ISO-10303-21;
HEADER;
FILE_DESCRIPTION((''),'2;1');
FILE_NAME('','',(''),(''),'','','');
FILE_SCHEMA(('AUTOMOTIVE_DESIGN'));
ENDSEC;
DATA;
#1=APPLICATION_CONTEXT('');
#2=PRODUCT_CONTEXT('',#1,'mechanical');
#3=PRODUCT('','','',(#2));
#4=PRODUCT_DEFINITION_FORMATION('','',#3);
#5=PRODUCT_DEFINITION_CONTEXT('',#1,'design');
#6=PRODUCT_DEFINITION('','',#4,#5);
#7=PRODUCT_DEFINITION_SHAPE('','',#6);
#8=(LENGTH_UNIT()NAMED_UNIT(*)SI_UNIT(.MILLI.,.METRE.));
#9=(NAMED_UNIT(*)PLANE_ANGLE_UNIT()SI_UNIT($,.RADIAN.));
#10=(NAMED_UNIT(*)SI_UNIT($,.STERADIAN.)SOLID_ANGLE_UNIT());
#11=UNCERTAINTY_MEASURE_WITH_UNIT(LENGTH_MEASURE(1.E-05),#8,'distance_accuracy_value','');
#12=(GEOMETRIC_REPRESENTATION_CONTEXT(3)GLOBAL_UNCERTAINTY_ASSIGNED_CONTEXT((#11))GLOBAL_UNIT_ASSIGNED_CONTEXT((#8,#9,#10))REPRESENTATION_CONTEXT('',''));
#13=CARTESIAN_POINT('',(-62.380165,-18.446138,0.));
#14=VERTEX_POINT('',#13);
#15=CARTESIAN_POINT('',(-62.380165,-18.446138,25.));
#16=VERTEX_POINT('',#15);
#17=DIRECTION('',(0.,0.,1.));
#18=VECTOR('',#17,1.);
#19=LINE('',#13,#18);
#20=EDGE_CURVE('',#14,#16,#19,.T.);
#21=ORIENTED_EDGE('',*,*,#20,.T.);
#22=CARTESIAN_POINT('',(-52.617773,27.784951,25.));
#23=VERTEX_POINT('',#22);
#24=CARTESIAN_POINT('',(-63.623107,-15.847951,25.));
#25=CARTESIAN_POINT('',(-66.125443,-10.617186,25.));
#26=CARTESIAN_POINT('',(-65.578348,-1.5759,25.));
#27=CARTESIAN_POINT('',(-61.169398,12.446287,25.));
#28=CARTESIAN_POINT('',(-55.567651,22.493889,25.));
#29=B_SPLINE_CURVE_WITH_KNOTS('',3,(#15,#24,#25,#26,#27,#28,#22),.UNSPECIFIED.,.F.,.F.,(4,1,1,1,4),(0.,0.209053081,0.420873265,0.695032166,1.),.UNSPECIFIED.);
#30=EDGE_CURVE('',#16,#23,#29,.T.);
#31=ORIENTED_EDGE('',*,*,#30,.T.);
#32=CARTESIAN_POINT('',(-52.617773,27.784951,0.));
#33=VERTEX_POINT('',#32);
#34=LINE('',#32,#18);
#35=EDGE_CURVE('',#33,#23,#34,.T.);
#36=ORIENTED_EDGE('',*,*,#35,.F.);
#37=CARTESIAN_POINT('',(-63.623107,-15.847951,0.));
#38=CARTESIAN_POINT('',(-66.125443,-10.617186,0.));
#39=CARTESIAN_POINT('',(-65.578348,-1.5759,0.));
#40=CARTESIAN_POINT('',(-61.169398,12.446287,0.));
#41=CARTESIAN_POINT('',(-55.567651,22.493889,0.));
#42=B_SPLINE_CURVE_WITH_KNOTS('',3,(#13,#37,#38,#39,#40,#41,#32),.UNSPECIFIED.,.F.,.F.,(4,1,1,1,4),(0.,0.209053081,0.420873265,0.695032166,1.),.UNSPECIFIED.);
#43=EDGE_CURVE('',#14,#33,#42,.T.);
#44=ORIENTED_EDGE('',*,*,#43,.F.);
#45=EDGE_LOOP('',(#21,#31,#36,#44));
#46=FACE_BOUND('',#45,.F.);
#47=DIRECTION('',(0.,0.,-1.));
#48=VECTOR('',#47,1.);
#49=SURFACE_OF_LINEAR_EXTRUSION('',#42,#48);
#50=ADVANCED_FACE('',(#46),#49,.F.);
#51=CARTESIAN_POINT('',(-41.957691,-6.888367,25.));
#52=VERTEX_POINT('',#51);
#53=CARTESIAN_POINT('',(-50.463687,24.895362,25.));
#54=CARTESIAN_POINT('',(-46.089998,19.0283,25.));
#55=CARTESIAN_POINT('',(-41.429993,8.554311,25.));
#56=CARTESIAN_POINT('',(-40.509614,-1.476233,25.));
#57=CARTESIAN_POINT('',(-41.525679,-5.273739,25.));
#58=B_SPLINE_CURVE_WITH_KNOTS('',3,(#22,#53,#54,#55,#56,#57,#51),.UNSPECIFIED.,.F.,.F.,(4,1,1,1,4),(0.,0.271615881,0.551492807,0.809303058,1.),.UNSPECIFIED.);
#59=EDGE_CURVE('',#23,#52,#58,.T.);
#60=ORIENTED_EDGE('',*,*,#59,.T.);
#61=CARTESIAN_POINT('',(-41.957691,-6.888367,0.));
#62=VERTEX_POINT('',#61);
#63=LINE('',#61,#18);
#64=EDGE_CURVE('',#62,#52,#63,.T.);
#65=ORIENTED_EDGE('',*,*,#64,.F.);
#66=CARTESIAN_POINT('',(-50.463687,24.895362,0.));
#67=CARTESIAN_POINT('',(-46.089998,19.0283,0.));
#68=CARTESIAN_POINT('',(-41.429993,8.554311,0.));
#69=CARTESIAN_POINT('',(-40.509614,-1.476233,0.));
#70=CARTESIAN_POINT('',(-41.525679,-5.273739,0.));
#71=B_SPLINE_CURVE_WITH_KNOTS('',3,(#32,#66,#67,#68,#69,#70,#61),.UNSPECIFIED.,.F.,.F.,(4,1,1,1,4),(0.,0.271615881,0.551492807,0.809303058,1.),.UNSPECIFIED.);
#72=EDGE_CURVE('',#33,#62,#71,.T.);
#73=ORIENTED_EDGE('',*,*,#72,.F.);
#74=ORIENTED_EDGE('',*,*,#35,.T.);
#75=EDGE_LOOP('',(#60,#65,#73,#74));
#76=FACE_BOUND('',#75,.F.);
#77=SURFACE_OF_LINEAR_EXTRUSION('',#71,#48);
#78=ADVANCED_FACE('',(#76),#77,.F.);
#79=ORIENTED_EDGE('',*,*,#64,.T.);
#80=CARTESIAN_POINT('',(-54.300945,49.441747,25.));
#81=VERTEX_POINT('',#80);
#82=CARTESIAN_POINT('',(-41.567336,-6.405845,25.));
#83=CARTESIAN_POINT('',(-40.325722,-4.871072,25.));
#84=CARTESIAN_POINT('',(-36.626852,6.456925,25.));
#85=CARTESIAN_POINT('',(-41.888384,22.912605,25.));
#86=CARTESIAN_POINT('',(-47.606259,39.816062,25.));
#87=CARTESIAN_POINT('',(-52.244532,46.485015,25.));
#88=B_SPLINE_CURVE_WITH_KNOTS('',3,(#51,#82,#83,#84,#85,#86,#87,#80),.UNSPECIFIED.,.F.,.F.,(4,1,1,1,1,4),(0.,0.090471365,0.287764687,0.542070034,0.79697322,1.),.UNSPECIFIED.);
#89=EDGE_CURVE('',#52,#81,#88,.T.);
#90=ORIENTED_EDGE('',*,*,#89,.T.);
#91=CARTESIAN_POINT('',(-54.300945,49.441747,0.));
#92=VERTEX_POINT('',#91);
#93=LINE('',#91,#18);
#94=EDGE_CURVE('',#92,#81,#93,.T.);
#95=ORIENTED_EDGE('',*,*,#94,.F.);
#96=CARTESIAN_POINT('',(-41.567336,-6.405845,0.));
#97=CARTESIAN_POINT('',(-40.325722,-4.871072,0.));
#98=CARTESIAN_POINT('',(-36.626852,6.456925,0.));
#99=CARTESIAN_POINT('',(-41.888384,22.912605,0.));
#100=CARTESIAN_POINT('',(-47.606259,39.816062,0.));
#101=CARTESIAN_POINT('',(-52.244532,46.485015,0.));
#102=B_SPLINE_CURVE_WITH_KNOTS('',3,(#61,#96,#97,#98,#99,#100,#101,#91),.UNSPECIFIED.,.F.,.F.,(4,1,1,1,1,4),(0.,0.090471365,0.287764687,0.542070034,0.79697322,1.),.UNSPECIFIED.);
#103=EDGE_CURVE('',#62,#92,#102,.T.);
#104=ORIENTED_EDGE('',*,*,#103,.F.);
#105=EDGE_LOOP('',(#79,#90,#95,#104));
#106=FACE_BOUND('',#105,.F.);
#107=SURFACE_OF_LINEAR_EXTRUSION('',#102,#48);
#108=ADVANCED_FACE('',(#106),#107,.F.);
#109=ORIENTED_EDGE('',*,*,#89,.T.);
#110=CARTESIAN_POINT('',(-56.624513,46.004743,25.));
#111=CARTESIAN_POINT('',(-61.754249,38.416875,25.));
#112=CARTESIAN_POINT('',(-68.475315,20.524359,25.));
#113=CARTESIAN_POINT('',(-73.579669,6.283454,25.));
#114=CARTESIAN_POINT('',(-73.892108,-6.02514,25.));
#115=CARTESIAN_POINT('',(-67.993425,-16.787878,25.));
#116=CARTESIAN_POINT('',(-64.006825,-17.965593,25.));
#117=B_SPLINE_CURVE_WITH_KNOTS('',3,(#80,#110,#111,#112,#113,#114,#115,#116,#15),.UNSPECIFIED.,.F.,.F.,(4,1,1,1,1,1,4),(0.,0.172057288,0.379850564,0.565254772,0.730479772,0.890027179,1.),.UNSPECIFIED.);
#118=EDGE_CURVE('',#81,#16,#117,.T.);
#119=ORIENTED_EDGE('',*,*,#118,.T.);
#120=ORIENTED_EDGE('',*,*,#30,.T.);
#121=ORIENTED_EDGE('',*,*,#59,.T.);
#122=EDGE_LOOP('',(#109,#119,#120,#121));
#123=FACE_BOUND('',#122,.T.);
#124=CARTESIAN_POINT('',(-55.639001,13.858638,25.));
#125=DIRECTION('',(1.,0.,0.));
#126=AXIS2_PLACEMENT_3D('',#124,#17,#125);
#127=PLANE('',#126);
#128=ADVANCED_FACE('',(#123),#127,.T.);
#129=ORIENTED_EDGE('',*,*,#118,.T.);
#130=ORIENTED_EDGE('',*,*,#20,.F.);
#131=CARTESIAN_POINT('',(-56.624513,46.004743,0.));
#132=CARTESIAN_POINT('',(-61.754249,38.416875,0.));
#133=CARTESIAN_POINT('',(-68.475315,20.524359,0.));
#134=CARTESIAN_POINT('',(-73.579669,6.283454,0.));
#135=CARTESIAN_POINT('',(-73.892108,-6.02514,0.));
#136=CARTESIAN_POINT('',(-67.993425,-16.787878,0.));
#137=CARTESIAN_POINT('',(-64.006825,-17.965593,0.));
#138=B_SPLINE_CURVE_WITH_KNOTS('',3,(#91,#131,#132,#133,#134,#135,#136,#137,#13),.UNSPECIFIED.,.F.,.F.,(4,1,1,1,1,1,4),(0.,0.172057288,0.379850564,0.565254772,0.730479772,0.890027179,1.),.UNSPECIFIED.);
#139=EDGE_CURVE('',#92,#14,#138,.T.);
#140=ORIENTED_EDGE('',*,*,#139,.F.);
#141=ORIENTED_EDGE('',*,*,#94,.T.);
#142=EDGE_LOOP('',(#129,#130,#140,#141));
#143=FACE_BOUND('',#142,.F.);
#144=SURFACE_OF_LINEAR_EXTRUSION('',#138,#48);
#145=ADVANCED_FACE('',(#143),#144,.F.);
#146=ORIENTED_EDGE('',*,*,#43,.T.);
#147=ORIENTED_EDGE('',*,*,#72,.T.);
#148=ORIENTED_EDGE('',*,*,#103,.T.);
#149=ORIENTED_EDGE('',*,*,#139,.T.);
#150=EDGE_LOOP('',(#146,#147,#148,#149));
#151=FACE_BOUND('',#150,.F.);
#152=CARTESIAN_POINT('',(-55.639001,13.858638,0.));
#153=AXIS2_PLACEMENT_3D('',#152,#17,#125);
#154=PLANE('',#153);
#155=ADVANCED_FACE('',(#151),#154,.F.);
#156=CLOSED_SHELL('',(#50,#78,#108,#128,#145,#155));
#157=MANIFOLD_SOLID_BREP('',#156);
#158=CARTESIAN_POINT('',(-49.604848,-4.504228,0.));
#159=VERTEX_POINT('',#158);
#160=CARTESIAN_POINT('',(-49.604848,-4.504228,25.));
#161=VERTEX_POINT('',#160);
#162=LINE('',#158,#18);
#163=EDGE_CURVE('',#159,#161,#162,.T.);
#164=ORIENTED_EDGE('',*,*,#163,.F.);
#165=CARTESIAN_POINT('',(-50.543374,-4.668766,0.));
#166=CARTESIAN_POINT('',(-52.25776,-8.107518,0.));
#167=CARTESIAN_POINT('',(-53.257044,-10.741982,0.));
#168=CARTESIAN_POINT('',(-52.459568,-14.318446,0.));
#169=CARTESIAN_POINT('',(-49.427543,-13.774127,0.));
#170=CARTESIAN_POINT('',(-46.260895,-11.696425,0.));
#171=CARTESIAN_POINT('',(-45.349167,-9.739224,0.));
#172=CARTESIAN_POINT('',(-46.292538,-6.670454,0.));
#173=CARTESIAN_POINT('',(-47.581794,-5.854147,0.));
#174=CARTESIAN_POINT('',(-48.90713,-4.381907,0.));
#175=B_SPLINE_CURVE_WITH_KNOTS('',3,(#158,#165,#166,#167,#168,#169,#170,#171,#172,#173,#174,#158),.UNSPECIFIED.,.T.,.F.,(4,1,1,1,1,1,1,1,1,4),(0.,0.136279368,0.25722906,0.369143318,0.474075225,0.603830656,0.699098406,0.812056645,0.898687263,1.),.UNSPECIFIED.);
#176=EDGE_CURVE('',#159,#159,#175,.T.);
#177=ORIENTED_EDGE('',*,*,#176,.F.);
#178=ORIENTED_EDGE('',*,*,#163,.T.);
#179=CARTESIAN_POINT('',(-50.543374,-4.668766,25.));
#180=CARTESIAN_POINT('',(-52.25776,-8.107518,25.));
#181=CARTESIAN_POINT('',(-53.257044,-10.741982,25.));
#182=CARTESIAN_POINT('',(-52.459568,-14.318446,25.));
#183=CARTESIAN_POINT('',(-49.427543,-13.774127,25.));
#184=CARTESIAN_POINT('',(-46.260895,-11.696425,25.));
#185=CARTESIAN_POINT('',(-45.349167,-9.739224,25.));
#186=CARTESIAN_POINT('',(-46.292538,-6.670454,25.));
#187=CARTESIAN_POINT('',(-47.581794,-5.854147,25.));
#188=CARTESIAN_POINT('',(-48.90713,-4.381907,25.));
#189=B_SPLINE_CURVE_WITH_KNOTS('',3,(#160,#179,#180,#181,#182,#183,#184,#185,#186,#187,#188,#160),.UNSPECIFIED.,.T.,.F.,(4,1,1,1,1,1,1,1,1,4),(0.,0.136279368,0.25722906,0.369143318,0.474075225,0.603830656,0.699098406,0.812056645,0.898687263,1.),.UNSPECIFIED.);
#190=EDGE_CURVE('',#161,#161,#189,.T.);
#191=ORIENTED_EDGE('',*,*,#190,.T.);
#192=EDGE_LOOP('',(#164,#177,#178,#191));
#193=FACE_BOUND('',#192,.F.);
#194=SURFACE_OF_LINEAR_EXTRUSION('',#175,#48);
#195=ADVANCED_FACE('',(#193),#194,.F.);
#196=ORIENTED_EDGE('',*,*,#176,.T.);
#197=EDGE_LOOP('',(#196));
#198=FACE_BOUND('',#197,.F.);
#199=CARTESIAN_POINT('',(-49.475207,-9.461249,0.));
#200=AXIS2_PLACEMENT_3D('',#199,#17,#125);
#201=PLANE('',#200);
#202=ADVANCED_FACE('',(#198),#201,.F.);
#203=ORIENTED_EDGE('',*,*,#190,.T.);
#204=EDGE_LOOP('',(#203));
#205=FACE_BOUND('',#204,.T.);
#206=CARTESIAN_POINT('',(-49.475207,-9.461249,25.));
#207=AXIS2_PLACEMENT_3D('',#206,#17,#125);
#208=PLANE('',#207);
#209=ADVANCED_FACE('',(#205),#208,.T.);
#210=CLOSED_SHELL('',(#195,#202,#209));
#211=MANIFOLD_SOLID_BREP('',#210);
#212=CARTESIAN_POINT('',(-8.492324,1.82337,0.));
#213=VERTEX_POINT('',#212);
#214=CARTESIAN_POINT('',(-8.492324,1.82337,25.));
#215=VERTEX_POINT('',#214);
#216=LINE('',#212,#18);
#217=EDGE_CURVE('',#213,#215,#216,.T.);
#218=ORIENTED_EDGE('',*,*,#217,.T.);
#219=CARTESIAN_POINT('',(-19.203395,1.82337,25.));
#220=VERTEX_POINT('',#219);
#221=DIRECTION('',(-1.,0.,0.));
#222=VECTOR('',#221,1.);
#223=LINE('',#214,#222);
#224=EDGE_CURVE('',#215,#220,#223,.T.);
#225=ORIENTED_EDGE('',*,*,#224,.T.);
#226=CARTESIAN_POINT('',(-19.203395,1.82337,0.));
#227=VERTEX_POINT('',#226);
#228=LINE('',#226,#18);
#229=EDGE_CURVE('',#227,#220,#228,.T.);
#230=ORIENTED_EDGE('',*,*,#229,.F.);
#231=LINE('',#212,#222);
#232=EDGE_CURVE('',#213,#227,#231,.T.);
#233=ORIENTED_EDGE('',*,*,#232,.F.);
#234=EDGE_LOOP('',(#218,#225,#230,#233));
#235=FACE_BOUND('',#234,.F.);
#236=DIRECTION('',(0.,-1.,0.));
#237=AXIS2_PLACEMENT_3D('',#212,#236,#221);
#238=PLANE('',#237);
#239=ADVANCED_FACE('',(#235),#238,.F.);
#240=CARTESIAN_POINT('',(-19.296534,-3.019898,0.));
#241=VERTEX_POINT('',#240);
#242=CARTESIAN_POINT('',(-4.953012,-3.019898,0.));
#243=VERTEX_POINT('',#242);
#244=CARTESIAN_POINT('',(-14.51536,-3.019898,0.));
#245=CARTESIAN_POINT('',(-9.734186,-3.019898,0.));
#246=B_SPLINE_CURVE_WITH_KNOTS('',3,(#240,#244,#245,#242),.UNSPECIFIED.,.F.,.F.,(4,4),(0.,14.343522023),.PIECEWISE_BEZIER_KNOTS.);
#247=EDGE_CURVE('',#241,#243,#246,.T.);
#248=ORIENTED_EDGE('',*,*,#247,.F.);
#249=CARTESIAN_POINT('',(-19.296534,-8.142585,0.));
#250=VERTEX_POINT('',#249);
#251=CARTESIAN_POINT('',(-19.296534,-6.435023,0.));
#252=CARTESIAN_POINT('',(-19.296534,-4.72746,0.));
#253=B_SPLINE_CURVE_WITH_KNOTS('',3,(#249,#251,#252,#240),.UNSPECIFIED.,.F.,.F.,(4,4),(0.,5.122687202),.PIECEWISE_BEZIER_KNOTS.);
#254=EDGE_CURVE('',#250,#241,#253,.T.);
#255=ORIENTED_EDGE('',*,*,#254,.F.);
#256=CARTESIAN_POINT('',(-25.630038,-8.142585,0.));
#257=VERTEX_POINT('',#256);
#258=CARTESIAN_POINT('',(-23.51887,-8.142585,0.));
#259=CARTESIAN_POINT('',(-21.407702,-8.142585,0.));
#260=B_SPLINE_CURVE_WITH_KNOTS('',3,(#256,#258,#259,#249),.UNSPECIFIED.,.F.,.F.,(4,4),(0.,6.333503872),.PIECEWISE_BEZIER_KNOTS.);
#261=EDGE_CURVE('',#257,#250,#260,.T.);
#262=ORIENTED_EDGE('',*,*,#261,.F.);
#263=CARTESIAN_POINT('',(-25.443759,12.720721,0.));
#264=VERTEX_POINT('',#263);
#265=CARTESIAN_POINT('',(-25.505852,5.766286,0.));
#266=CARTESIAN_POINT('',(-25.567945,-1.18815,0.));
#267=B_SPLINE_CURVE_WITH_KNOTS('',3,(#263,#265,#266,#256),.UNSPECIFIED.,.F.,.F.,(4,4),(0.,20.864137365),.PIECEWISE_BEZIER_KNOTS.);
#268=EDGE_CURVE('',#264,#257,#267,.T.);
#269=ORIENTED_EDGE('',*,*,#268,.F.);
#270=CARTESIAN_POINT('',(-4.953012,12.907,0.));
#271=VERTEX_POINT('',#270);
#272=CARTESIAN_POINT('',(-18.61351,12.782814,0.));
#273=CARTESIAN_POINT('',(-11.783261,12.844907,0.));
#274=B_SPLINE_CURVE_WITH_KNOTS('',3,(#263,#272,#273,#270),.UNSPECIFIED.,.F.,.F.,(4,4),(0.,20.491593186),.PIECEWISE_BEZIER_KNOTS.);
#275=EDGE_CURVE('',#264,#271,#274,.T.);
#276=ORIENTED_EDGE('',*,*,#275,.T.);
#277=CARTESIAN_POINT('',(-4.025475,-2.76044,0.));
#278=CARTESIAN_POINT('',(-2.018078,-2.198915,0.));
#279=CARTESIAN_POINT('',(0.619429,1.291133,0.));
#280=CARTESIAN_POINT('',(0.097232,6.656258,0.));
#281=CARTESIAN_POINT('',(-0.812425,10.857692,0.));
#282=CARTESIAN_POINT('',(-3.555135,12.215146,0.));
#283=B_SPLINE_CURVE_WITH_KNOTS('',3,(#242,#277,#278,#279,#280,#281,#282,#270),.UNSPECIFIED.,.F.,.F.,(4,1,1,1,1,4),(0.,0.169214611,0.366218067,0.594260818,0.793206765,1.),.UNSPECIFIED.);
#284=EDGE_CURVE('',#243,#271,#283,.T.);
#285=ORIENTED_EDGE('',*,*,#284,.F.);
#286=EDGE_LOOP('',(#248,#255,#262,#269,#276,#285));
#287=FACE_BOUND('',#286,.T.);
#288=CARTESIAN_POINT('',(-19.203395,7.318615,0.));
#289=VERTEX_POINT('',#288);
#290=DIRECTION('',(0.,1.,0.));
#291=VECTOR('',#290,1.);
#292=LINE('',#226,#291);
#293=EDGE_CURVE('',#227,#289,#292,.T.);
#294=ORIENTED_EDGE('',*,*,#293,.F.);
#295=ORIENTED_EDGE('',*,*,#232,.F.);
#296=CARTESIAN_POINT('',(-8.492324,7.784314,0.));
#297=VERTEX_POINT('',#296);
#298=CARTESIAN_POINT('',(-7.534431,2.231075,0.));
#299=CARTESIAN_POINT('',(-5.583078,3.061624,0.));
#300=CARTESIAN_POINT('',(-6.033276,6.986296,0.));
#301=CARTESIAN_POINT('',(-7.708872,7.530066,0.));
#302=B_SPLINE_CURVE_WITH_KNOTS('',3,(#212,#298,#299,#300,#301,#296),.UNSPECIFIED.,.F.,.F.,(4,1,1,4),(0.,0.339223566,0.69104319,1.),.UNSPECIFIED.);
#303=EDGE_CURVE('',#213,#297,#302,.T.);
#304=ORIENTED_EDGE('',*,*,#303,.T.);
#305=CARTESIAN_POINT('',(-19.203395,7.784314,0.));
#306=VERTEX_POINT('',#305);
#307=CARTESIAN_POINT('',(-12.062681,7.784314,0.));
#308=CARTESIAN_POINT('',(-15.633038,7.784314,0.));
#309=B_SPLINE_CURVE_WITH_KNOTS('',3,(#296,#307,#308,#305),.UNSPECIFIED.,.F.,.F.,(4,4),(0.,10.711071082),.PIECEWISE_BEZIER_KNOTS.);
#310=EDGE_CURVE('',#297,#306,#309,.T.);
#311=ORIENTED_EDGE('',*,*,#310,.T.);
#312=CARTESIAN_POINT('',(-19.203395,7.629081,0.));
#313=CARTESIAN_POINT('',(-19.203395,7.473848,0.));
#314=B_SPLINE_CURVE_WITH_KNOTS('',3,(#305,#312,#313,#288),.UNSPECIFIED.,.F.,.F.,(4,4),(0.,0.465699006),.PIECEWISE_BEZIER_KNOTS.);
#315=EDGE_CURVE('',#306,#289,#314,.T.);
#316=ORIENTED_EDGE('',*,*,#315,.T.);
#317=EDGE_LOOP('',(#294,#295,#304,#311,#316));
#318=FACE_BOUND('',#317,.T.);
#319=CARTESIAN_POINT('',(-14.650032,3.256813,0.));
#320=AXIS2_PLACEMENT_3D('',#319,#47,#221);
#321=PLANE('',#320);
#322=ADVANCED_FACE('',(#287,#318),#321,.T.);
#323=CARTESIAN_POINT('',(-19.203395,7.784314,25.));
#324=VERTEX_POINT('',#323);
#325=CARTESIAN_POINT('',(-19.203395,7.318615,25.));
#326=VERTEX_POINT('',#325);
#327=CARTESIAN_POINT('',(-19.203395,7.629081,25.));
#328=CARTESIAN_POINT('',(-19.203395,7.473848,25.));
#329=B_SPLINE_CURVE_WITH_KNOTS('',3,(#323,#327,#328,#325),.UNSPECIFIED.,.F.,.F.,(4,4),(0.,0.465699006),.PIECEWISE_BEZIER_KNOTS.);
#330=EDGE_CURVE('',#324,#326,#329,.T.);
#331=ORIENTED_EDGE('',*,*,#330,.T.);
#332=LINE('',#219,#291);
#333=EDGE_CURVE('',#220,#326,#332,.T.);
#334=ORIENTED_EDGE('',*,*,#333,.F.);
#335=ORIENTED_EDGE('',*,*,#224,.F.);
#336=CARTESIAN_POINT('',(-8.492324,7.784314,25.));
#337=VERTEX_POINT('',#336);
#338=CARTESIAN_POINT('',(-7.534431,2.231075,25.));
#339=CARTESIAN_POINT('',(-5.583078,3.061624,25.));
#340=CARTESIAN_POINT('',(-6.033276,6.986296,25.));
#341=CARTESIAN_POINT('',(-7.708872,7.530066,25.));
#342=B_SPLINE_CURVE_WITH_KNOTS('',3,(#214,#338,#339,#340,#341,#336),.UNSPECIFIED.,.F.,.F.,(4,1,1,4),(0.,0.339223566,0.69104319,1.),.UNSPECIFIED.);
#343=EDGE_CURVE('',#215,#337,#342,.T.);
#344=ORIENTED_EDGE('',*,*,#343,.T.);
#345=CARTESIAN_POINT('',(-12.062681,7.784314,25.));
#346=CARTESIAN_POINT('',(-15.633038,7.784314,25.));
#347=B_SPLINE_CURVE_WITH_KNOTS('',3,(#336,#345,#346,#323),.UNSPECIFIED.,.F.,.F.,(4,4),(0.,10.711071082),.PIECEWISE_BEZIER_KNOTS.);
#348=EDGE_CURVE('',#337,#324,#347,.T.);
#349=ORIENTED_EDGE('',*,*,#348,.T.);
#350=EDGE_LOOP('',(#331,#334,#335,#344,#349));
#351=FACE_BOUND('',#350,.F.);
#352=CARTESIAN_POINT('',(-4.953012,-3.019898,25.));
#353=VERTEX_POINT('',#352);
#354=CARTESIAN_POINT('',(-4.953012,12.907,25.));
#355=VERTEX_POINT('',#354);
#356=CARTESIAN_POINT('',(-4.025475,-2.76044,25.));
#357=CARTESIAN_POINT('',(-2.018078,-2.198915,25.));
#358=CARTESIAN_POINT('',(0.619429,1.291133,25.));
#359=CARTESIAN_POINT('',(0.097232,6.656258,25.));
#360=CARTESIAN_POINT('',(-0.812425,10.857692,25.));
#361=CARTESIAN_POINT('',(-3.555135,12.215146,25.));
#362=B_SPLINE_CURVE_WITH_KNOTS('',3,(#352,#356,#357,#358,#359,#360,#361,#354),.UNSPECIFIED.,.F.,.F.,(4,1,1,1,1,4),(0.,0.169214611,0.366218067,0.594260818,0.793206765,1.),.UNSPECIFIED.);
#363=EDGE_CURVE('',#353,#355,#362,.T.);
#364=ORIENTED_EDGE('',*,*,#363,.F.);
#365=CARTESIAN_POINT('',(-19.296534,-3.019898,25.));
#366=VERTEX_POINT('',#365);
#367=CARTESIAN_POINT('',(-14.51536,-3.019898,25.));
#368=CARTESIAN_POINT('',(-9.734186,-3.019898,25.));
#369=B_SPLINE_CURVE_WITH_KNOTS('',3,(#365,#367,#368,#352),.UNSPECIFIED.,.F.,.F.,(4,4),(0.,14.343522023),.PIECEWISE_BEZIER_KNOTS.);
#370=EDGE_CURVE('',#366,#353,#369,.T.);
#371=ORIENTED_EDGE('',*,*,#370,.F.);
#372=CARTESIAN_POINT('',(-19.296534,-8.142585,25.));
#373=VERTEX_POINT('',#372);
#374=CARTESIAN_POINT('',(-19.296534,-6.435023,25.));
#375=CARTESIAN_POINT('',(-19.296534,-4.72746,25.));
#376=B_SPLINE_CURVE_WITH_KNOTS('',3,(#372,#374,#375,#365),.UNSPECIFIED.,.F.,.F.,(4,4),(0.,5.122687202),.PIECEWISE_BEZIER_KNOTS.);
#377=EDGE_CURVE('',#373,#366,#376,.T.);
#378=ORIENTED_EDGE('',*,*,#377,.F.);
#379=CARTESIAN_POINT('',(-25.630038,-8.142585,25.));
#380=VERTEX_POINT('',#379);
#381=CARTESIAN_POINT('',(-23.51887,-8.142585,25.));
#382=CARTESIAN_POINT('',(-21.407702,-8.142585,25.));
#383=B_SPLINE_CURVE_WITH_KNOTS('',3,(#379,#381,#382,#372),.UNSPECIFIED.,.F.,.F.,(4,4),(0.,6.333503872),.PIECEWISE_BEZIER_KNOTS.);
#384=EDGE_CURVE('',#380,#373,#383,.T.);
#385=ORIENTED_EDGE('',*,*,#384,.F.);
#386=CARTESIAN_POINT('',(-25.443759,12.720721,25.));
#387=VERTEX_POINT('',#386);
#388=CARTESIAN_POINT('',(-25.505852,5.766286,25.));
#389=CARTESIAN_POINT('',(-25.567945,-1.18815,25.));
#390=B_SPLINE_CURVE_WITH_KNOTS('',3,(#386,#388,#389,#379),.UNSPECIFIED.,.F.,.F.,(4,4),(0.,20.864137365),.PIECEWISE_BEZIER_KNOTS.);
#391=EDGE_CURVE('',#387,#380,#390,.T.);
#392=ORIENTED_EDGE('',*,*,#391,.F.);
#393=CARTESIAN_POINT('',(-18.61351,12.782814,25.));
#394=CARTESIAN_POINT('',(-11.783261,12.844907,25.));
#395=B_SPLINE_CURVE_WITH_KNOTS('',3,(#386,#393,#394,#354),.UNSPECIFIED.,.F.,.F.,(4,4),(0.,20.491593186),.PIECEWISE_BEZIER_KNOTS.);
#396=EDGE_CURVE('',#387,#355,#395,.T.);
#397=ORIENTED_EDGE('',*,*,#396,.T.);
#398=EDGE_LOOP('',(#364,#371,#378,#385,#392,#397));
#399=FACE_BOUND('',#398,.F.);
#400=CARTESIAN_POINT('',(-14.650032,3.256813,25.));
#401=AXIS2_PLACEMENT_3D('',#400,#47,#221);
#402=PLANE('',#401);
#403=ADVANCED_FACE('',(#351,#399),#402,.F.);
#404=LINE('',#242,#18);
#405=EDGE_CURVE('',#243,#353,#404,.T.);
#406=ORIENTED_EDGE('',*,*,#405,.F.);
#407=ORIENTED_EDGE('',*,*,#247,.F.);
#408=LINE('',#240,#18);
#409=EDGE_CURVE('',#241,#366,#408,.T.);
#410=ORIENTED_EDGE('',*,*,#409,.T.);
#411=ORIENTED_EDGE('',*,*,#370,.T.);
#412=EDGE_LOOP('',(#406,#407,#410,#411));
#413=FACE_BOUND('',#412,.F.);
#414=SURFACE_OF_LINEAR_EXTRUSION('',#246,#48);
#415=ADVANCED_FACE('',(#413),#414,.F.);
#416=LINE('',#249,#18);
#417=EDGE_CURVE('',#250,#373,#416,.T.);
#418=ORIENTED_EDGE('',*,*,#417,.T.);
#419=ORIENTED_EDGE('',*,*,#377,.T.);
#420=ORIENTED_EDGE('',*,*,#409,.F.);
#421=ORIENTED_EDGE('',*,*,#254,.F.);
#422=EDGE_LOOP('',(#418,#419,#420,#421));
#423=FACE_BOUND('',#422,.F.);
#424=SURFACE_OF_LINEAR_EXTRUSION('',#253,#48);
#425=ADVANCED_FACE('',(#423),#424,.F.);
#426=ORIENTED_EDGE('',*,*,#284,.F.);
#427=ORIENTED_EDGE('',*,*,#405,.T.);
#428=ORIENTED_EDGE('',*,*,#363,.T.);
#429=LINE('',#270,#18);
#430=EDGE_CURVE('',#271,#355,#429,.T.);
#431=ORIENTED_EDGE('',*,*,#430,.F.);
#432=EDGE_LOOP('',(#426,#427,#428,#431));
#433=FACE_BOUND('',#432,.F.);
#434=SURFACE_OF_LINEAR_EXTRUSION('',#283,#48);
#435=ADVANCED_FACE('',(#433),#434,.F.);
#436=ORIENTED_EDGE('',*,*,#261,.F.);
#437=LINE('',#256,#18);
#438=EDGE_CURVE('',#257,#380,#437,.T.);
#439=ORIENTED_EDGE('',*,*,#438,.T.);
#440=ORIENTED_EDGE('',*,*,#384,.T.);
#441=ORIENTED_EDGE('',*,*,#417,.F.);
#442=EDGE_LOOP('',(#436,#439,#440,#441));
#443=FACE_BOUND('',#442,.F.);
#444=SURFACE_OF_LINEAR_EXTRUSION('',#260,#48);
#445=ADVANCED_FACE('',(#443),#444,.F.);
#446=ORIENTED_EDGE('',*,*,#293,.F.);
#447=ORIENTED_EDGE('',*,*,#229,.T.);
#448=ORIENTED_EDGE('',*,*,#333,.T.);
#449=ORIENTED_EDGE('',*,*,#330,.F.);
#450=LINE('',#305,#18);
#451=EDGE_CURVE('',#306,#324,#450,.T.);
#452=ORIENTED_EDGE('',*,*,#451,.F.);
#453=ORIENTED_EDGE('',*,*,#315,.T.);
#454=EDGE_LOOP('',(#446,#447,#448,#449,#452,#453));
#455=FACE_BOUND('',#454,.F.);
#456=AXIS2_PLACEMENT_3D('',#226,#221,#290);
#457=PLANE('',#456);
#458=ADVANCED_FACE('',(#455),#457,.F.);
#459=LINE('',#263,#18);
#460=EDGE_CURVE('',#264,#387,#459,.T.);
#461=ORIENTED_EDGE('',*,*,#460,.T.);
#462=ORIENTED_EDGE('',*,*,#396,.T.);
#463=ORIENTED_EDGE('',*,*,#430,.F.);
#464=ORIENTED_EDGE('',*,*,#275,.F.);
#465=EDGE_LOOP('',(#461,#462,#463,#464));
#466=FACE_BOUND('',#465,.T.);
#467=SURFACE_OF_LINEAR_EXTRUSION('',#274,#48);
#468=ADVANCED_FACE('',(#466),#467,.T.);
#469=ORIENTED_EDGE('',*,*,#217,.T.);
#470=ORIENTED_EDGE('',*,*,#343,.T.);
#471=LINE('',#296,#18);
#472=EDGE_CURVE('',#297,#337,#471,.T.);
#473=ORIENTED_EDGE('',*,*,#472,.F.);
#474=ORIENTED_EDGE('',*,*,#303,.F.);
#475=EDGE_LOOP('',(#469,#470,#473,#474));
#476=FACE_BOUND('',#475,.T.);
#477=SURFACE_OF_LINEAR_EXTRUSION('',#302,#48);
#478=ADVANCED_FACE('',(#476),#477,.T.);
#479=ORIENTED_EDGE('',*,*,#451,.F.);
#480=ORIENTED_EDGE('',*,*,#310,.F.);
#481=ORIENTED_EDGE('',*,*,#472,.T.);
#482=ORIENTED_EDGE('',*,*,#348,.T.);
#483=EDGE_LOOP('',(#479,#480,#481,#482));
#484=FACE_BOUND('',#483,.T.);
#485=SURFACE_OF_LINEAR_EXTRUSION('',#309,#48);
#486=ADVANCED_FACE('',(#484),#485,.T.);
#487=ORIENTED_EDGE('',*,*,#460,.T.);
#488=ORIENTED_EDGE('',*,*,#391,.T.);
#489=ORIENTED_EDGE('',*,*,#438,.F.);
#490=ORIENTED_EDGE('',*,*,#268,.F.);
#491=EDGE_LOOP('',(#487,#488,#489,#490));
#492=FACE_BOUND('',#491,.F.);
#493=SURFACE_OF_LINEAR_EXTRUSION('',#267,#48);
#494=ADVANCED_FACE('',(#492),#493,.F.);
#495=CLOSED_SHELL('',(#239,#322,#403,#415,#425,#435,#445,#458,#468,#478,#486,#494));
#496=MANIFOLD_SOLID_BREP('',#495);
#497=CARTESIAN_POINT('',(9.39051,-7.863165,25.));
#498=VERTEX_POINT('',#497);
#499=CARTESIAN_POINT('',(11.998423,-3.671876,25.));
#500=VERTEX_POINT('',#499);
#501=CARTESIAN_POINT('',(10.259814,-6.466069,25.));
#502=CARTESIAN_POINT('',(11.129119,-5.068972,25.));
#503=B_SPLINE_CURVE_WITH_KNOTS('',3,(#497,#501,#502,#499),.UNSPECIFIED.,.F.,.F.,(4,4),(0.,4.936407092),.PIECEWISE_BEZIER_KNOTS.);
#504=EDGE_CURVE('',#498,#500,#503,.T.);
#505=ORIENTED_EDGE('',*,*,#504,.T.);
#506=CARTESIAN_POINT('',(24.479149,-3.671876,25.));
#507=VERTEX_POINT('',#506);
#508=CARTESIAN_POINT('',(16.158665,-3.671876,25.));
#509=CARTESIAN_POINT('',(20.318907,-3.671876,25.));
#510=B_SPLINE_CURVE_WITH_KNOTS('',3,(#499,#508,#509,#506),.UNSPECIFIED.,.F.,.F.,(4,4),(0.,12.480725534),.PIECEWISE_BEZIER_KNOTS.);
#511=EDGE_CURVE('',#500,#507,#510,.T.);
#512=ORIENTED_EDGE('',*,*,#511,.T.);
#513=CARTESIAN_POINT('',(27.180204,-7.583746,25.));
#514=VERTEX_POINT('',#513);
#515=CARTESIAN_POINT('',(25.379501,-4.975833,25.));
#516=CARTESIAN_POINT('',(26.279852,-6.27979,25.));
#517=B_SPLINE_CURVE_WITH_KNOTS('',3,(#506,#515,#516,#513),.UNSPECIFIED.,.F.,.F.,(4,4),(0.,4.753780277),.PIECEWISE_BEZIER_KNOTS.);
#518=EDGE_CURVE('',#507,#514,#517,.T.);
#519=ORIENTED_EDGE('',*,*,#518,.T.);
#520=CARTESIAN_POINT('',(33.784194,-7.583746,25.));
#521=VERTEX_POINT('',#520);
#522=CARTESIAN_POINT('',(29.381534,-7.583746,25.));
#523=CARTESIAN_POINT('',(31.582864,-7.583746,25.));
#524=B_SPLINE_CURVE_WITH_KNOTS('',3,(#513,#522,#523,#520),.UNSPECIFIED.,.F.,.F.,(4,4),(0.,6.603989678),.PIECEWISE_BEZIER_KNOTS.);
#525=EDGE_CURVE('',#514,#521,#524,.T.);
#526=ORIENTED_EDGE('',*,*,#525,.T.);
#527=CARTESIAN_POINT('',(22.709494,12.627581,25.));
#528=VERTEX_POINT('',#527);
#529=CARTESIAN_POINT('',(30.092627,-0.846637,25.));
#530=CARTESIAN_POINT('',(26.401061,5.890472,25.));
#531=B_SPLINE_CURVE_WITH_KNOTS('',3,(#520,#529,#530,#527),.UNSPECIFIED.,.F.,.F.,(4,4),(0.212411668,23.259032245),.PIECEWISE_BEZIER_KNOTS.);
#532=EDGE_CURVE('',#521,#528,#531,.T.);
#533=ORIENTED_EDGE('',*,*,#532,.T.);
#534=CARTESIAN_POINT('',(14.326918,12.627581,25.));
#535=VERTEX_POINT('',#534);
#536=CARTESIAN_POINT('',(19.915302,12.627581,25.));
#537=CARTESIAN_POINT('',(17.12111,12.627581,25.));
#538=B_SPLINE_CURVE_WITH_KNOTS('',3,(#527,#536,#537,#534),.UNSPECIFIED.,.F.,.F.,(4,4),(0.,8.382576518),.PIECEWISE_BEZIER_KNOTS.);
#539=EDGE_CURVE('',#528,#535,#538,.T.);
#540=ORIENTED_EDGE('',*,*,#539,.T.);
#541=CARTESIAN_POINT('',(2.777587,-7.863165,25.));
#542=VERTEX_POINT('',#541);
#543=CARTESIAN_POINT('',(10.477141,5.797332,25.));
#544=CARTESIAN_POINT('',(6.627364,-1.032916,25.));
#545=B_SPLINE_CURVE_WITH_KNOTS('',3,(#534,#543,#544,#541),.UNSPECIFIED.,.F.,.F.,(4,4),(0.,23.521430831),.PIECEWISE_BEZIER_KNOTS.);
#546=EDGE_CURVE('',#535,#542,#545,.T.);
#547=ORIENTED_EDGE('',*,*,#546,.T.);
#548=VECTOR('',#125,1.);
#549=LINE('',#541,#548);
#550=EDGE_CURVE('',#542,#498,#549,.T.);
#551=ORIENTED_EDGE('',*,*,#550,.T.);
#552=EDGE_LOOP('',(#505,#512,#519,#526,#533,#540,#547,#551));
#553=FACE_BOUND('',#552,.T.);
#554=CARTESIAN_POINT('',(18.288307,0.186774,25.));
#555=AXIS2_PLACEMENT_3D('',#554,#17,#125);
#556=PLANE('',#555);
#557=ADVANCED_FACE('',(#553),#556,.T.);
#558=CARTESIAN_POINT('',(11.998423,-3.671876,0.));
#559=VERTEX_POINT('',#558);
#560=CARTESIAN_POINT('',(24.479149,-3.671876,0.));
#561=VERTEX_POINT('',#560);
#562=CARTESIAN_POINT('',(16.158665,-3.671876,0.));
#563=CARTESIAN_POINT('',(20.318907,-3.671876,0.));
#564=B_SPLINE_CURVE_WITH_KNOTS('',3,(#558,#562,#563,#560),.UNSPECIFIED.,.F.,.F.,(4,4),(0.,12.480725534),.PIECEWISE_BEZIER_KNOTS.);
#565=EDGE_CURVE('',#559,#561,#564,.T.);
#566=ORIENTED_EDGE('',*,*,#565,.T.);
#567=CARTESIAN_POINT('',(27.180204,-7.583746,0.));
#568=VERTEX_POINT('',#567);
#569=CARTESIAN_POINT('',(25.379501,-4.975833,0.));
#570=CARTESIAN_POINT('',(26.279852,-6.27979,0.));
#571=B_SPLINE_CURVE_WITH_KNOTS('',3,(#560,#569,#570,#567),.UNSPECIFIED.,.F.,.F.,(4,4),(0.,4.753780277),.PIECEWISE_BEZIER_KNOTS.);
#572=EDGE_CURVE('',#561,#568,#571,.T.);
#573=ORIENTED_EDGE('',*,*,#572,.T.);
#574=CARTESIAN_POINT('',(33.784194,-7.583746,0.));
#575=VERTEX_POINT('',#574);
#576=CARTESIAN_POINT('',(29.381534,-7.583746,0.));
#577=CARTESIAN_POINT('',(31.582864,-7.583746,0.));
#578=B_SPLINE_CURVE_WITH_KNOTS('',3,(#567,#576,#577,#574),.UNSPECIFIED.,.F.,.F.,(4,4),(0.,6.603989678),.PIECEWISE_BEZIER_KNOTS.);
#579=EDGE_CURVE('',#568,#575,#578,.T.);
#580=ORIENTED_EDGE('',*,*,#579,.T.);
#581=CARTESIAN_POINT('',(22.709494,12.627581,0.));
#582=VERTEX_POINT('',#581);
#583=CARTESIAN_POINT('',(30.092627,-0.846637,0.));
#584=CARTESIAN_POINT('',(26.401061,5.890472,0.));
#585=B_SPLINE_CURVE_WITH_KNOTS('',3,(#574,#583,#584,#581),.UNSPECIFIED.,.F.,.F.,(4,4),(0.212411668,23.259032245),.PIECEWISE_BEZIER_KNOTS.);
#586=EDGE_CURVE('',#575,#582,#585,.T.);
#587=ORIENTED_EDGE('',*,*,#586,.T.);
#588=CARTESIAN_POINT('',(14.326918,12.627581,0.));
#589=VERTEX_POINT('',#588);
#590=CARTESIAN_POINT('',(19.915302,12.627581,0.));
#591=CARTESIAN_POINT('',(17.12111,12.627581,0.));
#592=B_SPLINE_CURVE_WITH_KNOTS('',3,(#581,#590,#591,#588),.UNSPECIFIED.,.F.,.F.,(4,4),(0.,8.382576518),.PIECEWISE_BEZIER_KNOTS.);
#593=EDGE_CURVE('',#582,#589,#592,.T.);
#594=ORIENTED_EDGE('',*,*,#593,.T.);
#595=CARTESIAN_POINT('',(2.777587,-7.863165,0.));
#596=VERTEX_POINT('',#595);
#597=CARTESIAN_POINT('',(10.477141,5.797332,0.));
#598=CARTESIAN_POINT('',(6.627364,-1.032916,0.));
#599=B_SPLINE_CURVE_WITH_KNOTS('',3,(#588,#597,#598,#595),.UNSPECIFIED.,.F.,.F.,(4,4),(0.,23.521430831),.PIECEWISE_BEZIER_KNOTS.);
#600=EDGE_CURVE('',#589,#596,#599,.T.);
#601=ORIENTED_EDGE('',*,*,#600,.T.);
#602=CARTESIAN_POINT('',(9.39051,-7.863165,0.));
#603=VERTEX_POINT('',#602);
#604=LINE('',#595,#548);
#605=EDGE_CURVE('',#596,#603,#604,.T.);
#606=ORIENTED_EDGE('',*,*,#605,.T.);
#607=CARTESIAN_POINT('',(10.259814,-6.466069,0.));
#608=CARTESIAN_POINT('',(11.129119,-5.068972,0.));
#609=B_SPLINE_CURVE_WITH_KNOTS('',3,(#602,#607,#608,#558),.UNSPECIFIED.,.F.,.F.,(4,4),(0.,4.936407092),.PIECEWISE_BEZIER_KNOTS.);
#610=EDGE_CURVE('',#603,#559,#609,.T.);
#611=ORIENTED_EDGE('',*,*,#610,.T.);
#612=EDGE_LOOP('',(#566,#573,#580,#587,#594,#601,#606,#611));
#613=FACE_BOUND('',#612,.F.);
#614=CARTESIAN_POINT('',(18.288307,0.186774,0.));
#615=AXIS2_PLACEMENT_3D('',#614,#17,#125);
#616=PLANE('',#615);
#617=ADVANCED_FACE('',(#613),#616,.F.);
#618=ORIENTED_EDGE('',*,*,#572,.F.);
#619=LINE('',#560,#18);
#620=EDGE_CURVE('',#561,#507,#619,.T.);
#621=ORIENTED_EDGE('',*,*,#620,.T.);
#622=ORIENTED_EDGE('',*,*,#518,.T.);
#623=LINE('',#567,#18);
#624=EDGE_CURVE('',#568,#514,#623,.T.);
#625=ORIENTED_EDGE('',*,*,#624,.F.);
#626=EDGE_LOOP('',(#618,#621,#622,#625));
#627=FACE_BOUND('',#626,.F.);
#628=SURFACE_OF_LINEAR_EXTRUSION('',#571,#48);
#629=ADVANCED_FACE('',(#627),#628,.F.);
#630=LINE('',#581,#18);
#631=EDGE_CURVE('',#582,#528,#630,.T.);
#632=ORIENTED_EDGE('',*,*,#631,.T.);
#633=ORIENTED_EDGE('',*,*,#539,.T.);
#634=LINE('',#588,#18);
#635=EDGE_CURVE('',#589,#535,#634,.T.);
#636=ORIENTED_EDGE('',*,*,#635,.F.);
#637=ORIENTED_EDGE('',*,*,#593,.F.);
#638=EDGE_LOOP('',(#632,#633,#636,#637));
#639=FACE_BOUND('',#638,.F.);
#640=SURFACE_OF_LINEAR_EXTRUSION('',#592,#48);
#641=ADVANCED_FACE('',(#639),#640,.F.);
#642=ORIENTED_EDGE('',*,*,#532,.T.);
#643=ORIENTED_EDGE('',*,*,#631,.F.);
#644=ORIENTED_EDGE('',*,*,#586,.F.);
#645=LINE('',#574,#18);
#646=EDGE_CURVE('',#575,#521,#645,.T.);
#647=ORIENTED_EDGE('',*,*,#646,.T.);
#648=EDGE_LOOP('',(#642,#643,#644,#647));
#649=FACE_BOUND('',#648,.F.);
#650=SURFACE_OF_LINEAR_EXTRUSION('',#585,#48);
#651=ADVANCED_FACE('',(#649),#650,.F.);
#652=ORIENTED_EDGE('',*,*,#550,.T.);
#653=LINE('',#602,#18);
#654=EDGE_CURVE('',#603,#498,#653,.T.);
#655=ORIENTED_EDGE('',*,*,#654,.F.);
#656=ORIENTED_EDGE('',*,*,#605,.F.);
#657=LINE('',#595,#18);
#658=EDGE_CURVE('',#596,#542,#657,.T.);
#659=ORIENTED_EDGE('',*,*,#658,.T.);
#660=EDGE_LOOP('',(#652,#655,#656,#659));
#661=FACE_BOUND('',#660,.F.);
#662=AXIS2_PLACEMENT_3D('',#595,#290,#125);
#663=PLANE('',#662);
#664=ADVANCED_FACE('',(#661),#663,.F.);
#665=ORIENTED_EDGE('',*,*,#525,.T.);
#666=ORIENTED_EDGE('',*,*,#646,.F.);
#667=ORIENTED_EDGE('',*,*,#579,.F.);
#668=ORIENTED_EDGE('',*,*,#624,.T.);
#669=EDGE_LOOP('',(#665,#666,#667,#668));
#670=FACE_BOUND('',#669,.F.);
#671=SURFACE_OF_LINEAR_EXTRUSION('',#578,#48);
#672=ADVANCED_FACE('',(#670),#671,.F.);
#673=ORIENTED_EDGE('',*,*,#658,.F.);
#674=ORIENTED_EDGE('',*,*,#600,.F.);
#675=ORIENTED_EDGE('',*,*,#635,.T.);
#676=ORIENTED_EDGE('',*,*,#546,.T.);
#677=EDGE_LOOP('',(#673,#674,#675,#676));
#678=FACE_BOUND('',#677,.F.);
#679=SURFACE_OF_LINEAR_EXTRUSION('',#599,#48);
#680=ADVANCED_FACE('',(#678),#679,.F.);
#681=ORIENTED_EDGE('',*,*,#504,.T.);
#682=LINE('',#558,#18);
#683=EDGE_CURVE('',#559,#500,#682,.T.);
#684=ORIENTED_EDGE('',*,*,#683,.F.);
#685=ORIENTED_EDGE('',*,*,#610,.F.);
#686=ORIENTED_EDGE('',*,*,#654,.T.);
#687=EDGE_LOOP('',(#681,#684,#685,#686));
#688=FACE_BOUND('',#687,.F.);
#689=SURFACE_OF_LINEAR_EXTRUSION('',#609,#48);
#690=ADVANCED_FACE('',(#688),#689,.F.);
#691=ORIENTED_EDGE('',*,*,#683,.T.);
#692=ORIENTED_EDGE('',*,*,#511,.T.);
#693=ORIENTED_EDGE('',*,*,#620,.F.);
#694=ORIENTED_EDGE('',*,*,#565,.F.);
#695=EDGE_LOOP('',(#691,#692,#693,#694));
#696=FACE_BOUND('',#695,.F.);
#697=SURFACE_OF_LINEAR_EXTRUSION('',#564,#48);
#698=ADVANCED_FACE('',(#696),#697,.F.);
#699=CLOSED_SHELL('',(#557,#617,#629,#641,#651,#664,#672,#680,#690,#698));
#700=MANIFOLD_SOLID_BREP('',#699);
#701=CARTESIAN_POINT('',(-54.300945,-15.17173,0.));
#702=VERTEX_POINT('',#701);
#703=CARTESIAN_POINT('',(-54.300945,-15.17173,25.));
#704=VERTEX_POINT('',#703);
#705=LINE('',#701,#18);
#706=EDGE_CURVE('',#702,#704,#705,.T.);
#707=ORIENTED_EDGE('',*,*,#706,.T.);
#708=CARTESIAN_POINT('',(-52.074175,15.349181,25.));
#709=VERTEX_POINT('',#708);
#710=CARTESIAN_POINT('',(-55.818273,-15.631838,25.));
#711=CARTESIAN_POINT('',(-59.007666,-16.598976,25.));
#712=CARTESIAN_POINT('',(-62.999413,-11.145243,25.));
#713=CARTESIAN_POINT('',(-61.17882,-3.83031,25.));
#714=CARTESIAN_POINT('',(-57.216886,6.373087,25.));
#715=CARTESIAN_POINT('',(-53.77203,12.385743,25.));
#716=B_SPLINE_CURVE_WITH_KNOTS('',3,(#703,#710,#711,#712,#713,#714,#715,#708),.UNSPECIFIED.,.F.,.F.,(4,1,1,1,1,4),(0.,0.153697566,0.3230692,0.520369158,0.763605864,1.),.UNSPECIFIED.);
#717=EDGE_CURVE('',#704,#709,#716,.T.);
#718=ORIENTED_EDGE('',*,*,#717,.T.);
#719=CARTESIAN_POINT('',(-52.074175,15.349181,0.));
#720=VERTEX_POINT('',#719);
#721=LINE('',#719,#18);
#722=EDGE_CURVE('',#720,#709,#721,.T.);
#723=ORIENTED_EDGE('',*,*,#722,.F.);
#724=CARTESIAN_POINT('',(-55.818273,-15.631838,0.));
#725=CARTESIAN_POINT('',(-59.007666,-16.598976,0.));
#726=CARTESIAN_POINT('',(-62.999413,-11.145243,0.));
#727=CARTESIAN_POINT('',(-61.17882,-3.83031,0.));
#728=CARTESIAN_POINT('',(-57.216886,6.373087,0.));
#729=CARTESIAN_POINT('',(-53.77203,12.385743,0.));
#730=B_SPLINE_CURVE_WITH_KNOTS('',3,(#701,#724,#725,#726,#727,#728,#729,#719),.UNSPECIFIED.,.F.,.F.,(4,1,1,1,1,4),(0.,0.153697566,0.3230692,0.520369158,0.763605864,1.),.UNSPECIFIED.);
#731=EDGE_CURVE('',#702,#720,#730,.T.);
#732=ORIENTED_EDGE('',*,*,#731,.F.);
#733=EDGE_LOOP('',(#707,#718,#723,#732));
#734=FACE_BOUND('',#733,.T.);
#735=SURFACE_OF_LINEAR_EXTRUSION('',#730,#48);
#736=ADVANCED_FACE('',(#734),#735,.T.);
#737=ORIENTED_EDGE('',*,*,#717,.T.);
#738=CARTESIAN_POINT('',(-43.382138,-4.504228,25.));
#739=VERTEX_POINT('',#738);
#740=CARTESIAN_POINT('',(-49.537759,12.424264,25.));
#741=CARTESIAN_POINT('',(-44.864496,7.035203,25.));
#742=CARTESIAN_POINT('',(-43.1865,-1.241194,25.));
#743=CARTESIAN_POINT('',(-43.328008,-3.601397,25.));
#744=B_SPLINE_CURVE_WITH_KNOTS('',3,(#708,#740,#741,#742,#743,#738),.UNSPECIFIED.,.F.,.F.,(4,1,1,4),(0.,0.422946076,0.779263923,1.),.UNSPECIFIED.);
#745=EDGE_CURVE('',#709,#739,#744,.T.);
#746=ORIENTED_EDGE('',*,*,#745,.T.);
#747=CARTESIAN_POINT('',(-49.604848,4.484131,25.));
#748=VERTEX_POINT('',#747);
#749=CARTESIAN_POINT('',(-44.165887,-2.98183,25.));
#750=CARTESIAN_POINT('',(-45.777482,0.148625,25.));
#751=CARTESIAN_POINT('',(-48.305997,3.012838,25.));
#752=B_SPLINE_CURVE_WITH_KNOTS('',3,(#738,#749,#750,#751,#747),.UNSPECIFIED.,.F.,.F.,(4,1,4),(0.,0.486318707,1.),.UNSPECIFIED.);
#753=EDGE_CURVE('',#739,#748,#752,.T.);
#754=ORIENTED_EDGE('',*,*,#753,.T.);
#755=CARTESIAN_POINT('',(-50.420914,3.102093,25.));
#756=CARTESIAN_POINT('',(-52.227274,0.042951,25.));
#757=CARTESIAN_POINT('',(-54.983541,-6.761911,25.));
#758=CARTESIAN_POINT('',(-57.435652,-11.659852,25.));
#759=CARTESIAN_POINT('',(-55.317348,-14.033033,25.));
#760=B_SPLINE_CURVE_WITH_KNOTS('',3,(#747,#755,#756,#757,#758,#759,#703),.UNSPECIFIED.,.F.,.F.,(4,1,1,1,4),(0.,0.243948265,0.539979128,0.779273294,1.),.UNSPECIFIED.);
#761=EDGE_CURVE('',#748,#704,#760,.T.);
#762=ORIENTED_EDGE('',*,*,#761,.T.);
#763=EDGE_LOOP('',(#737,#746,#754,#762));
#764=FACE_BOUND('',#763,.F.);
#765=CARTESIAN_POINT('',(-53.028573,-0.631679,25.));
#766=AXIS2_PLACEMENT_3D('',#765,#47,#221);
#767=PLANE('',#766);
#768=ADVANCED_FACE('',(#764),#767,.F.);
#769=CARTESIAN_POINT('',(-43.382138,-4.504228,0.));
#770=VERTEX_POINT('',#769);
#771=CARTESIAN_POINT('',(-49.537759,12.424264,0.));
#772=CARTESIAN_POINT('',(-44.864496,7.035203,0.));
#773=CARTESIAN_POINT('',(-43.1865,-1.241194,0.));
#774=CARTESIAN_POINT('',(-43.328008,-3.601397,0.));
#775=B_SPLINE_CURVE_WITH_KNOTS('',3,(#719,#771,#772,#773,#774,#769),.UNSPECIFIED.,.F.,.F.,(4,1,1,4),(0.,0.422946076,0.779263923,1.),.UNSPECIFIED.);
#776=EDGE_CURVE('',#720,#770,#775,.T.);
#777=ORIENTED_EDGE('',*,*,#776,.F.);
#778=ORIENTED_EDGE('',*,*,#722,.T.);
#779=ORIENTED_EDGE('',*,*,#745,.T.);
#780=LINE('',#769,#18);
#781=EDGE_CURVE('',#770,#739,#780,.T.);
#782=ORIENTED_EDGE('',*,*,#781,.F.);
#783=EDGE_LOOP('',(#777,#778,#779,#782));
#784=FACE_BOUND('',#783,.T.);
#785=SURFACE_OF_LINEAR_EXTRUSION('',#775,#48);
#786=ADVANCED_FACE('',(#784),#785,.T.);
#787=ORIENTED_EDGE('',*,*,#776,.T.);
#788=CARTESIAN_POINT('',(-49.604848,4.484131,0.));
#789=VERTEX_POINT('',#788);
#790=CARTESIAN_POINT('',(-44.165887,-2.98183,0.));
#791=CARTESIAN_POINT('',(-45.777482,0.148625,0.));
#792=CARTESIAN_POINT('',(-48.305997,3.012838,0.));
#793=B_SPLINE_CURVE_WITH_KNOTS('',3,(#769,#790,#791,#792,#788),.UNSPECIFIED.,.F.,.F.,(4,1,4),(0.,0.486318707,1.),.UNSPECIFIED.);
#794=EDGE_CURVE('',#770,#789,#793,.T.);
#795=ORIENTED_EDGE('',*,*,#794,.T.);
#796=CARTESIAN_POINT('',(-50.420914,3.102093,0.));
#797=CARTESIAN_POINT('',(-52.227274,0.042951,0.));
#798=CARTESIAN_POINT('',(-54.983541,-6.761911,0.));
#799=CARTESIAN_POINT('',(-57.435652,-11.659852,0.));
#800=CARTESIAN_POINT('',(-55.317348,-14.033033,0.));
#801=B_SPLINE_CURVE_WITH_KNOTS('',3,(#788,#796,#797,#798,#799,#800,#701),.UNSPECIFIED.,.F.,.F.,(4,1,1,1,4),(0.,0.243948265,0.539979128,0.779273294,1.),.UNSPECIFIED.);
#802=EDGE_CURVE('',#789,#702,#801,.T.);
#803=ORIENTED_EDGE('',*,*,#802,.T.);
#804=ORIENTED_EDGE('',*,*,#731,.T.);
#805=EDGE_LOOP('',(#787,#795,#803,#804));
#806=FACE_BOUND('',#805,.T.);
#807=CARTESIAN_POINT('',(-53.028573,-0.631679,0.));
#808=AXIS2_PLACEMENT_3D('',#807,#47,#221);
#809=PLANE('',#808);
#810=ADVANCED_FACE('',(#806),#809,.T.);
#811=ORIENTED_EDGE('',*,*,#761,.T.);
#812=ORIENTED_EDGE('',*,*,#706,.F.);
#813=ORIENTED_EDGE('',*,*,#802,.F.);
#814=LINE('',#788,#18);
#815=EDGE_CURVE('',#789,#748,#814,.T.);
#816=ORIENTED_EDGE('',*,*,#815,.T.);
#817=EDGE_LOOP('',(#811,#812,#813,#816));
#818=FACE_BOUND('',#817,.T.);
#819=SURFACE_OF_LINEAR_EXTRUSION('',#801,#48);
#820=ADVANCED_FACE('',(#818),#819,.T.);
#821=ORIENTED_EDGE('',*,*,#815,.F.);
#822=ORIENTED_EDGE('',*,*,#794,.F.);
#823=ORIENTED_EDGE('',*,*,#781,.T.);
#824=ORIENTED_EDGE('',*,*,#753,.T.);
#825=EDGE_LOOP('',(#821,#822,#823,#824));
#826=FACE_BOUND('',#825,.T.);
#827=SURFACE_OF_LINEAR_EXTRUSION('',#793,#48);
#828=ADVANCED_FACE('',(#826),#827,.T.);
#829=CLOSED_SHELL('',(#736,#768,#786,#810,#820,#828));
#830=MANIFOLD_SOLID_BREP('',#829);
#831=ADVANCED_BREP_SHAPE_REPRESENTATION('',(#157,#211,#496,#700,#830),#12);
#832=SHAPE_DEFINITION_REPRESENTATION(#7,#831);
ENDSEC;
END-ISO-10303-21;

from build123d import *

# Parameters (mm, degrees)
F1_DEPTH = 25


with BuildPart() as f1:
    # F0 (on Top) → F1 (new body)
    with BuildSketch(Plane.XY):
        with BuildLine():
            add(Edge.make_bspline(
                [(-41.9576913118, -6.8883672357), (-41.5673358646, -6.405844601), (-40.3257218658, -4.871071967), (-36.6268515013, 6.4569250109), (-41.888383972, 22.9126051539), (-47.6062593685, 39.8160615159), (-52.2445315368, 46.4850153043), (-54.3009452522, 49.4417473674)],
                knots=[0, 0, 0, 0, 0.0904713648, 0.2877646867, 0.5420700343, 0.7969732202, 1, 1, 1, 1], degree=3))
            add(Edge.make_bspline(
                [(-54.3009452522, 49.4417473674), (-56.6245127919, 46.004743089), (-61.7542486483, 38.4168749578), (-68.4753149095, 20.5243591535), (-73.5796686045, 6.2834538502), (-73.8921084571, -6.0251397612), (-67.9934251663, -16.7878783638), (-64.006824621, -17.9655930829), (-62.3801648617, -18.4461381286)],
                knots=[0, 0, 0, 0, 0.1720572884, 0.3798505644, 0.5652547717, 0.7304797716, 0.8900271786, 1, 1, 1, 1], degree=3))
            add(Edge.make_bspline(
                [(-62.3801648617, -18.4461381286), (-63.62310697, -15.8479508859), (-66.1254432197, -10.6171858509), (-65.5783484616, -1.5758999211), (-61.1693984228, 12.4462867939), (-55.5676507776, 22.4938889957), (-52.6177734137, 27.7849510312)],
                knots=[0, 0, 0, 0, 0.209053081, 0.4208732645, 0.6950321656, 1, 1, 1, 1], degree=3))
            add(Edge.make_bspline(
                [(-52.6177734137, 27.7849510312), (-50.4636866552, 24.8953623282), (-46.0899977938, 19.0282996973), (-41.4299930238, 8.5543105111), (-40.5096135621, -1.4762334808), (-41.5256790902, -5.2737385131), (-41.9576913118, -6.8883672357)],
                knots=[0, 0, 0, 0, 0.2716158812, 0.5514928075, 0.8093030584, 1, 1, 1, 1], degree=3))
        make_face()
    extrude(amount=F1_DEPTH)


with BuildPart() as f1b:
    # F0 (on Top) → F1, piece 2 (new body)
    with BuildSketch(Plane.XY):
        with BuildLine():
            add(Edge.make_bspline(
                [(-54.3009452522, -15.1717299595), (-55.8182732839, -15.631838156), (-59.0076663574, -16.5989763518), (-62.9994129372, -11.1452431495), (-61.1788195389, -3.8303104318), (-57.2168858544, 6.3730874569), (-53.7720303589, 12.3857429005), (-52.074175328, 15.3491813689)],
                knots=[0, 0, 0, 0, 0.1536975661, 0.3230691996, 0.5203691576, 0.763605864, 1, 1, 1, 1], degree=3))
            add(Edge.make_bspline(
                [(-49.6048480272, 4.4841314666), (-50.4209135907, 3.1020925548), (-52.2272735252, 0.042951439), (-54.9835412089, -6.7619114207), (-57.435652053, -11.6598522373), (-55.3173477024, -14.0330329941), (-54.3009452522, -15.1717299595)],
                knots=[0, 0, 0, 0, 0.2439482649, 0.5399791285, 0.7792732943, 1, 1, 1, 1], degree=3))
            add(Edge.make_bspline(
                [(-43.3821380138, -4.5042280108), (-44.1658867861, -2.9818295146), (-45.7774817354, 0.1486248021), (-48.3059970245, 3.012838481), (-49.6048480272, 4.4841314666)],
                knots=[0, 0, 0, 0, 0.4863187072, 1, 1, 1, 1], degree=3))
            add(Edge.make_bspline(
                [(-52.074175328, 15.3491813689), (-49.5377585702, 12.4242643667), (-44.8644959882, 7.035203149), (-43.186499889, -1.2411944036), (-43.3280079894, -3.6013973941), (-43.3821380138, -4.5042280108)],
                knots=[0, 0, 0, 0, 0.4229460762, 0.7792639226, 1, 1, 1, 1], degree=3))
        make_face()
    extrude(amount=F1_DEPTH)


with BuildPart() as f1c:
    # F0 (on Top) → F1, piece 3 (new body)
    with BuildSketch(Plane.XY):
        with BuildLine():
            add(Edge.make_bspline(
                [(-49.6048480272, -4.5042280108), (-50.5433736889, -4.6687663832), (-52.2577599013, -8.1075176875), (-53.2570444245, -10.7419821808), (-52.4595683121, -14.3184464517), (-49.4275431362, -13.774126809), (-46.2608954823, -11.6964249922), (-45.3491672717, -9.739223844), (-46.2925375933, -6.6704537987), (-47.5817941371, -5.854146678), (-48.9071297656, -4.3819069791), (-49.6048480272, -4.5042280108)],
                knots=[0, 0, 0, 0, 0.1362793679, 0.2572290599, 0.3691433177, 0.4740752248, 0.6038306559, 0.6990984055, 0.8120566454, 0.8986872628, 1, 1, 1, 1], degree=3))
        make_face()
    extrude(amount=F1_DEPTH)


with BuildPart() as f1d:
    # F0 (on Top) → F1, piece 4 (new body)
    with BuildSketch(Plane.XY):
        with BuildLine():
            add(Edge.make_bspline(
                [(-25.4437588155, 12.7207208425), (-18.613509989, 12.7828139812), (-11.7832611625, 12.8449071199), (-4.953012336, 12.9070002586)],
                knots=[0, 0, 0, 0, 20.4915931862, 20.4915931862, 20.4915931862, 20.4915931862], degree=3))
            add(Edge.make_bspline(
                [(-25.4437588155, 12.7207208425), (-25.5058519542, 5.7662855834), (-25.5679450929, -1.1881496757), (-25.6300382316, -8.1425849348)],
                knots=[0, 0, 0, 0, 20.8641373648, 20.8641373648, 20.8641373648, 20.8641373648], degree=3))
            add(Edge.make_bspline(
                [(-25.6300382316, -8.1425849348), (-23.5188702742, -8.1425849348), (-21.4077023168, -8.1425849348), (-19.2965343595, -8.1425849348)],
                knots=[0, 0, 0, 0, 6.3335038722, 6.3335038722, 6.3335038722, 6.3335038722], degree=3))
            add(Edge.make_bspline(
                [(-19.2965343595, -8.1425849348), (-19.2965343595, -6.4350225342), (-19.2965343595, -4.7274601335), (-19.2965343595, -3.0198977329)],
                knots=[0, 0, 0, 0, 5.1226872019, 5.1226872019, 5.1226872019, 5.1226872019], degree=3))
            add(Edge.make_bspline(
                [(-19.2965343595, -3.0198977329), (-14.5153603517, -3.0198977329), (-9.7341863438, -3.0198977329), (-4.953012336, -3.0198977329)],
                knots=[0, 0, 0, 0, 14.3435220234, 14.3435220234, 14.3435220234, 14.3435220234], degree=3))
            add(Edge.make_bspline(
                [(-4.953012336, -3.0198977329), (-4.0254750418, -2.7604396842), (-2.0180779612, -2.1989147377), (0.6194293511, 1.2911331305), (0.0972323567, 6.656257704), (-0.8124248147, 10.8576916153), (-3.555134503, 12.2151459961), (-4.953012336, 12.9070002586)],
                knots=[0, 0, 0, 0, 0.1692146105, 0.3662180673, 0.594260818, 0.7932067652, 1, 1, 1, 1], degree=3))
        make_face()
        with BuildLine():
            Line((-19.2033946514, 1.8233696464), (-19.2033946514, 7.3186149821))
            add(Edge.make_bspline(
                [(-19.2033946514, 7.7843139879), (-19.2033946514, 7.629080986), (-19.2033946514, 7.473847984), (-19.2033946514, 7.3186149821)],
                knots=[0, 0, 0, 0, 0.4656990059, 0.4656990059, 0.4656990059, 0.4656990059], degree=3))
            add(Edge.make_bspline(
                [(-8.49232357, 7.7843139879), (-12.0626805971, 7.7843139879), (-15.6330376243, 7.7843139879), (-19.2033946514, 7.7843139879)],
                knots=[0, 0, 0, 0, 10.7110710815, 10.7110710815, 10.7110710815, 10.7110710815], degree=3))
            add(Edge.make_bspline(
                [(-8.49232357, 1.8233696464), (-7.5344311052, 2.2310746944), (-5.5830776866, 3.0616237053), (-6.0332760338, 6.9862959661), (-7.7088715367, 7.5300656123), (-8.49232357, 7.7843139879)],
                knots=[0, 0, 0, 0, 0.3392235658, 0.6910431903, 1, 1, 1, 1], degree=3))
            Line((-8.49232357, 1.8233696464), (-19.2033946514, 1.8233696464))
        make_face(mode=Mode.SUBTRACT)
    extrude(amount=F1_DEPTH)


with BuildPart() as f1e:
    # F0 (on Top) → F1, piece 5 (new body)
    with BuildSketch(Plane.XY):
        with BuildLine():
            add(Edge.make_bspline(
                [(14.3269179389, 12.6275811344), (10.4771410891, 5.7973324632), (6.6273642393, -1.0329162081), (2.7775873896, -7.8631648794)],
                knots=[0, 0, 0, 0, 23.5214308311, 23.5214308311, 23.5214308311, 23.5214308311], degree=3))
            Line((2.7775873896, -7.8631648794), (9.3905096874, -7.8631648794))
            add(Edge.make_bspline(
                [(9.3905096874, -7.8631648794), (10.25981425, -6.4660686379), (11.1291188126, -5.0689723964), (11.9984233752, -3.6718761548)],
                knots=[0, 0, 0, 0, 4.9364070918, 4.9364070918, 4.9364070918, 4.9364070918], degree=3))
            add(Edge.make_bspline(
                [(11.9984233752, -3.6718761548), (16.1586652199, -3.6718761548), (20.3189070647, -3.6718761548), (24.4791489094, -3.6718761548)],
                knots=[0, 0, 0, 0, 12.4807255343, 12.4807255343, 12.4807255343, 12.4807255343], degree=3))
            add(Edge.make_bspline(
                [(24.4791489094, -3.6718761548), (25.3795006623, -4.9758328435), (26.2798524151, -6.2797895322), (27.180204168, -7.5837462209)],
                knots=[0, 0, 0, 0, 4.7537802771, 4.7537802771, 4.7537802771, 4.7537802771], degree=3))
            add(Edge.make_bspline(
                [(27.180204168, -7.5837462209), (29.3815340608, -7.5837462209), (31.5828639536, -7.5837462209), (33.7841938465, -7.5837462209)],
                knots=[0, 0, 0, 0, 6.6039896785, 6.6039896785, 6.6039896785, 6.6039896785], degree=3))
            add(Edge.make_bspline(
                [(33.7841938465, -7.5837462209), (30.0926273832, -0.8466371025), (26.4010609199, 5.890472016), (22.7094944566, 12.6275811344)],
                knots=[0.212411668, 0.212411668, 0.212411668, 0.212411668, 23.2590322454, 23.2590322454, 23.2590322454, 23.2590322454], degree=3))
            add(Edge.make_bspline(
                [(22.7094944566, 12.6275811344), (19.9153022841, 12.6275811344), (17.1211101115, 12.6275811344), (14.3269179389, 12.6275811344)],
                knots=[0, 0, 0, 0, 8.3825765178, 8.3825765178, 8.3825765178, 8.3825765178], degree=3))
        make_face()
    extrude(amount=F1_DEPTH)


solid = Compound([f1.part, f1b.part, f1c.part, f1d.part, f1e.part])
